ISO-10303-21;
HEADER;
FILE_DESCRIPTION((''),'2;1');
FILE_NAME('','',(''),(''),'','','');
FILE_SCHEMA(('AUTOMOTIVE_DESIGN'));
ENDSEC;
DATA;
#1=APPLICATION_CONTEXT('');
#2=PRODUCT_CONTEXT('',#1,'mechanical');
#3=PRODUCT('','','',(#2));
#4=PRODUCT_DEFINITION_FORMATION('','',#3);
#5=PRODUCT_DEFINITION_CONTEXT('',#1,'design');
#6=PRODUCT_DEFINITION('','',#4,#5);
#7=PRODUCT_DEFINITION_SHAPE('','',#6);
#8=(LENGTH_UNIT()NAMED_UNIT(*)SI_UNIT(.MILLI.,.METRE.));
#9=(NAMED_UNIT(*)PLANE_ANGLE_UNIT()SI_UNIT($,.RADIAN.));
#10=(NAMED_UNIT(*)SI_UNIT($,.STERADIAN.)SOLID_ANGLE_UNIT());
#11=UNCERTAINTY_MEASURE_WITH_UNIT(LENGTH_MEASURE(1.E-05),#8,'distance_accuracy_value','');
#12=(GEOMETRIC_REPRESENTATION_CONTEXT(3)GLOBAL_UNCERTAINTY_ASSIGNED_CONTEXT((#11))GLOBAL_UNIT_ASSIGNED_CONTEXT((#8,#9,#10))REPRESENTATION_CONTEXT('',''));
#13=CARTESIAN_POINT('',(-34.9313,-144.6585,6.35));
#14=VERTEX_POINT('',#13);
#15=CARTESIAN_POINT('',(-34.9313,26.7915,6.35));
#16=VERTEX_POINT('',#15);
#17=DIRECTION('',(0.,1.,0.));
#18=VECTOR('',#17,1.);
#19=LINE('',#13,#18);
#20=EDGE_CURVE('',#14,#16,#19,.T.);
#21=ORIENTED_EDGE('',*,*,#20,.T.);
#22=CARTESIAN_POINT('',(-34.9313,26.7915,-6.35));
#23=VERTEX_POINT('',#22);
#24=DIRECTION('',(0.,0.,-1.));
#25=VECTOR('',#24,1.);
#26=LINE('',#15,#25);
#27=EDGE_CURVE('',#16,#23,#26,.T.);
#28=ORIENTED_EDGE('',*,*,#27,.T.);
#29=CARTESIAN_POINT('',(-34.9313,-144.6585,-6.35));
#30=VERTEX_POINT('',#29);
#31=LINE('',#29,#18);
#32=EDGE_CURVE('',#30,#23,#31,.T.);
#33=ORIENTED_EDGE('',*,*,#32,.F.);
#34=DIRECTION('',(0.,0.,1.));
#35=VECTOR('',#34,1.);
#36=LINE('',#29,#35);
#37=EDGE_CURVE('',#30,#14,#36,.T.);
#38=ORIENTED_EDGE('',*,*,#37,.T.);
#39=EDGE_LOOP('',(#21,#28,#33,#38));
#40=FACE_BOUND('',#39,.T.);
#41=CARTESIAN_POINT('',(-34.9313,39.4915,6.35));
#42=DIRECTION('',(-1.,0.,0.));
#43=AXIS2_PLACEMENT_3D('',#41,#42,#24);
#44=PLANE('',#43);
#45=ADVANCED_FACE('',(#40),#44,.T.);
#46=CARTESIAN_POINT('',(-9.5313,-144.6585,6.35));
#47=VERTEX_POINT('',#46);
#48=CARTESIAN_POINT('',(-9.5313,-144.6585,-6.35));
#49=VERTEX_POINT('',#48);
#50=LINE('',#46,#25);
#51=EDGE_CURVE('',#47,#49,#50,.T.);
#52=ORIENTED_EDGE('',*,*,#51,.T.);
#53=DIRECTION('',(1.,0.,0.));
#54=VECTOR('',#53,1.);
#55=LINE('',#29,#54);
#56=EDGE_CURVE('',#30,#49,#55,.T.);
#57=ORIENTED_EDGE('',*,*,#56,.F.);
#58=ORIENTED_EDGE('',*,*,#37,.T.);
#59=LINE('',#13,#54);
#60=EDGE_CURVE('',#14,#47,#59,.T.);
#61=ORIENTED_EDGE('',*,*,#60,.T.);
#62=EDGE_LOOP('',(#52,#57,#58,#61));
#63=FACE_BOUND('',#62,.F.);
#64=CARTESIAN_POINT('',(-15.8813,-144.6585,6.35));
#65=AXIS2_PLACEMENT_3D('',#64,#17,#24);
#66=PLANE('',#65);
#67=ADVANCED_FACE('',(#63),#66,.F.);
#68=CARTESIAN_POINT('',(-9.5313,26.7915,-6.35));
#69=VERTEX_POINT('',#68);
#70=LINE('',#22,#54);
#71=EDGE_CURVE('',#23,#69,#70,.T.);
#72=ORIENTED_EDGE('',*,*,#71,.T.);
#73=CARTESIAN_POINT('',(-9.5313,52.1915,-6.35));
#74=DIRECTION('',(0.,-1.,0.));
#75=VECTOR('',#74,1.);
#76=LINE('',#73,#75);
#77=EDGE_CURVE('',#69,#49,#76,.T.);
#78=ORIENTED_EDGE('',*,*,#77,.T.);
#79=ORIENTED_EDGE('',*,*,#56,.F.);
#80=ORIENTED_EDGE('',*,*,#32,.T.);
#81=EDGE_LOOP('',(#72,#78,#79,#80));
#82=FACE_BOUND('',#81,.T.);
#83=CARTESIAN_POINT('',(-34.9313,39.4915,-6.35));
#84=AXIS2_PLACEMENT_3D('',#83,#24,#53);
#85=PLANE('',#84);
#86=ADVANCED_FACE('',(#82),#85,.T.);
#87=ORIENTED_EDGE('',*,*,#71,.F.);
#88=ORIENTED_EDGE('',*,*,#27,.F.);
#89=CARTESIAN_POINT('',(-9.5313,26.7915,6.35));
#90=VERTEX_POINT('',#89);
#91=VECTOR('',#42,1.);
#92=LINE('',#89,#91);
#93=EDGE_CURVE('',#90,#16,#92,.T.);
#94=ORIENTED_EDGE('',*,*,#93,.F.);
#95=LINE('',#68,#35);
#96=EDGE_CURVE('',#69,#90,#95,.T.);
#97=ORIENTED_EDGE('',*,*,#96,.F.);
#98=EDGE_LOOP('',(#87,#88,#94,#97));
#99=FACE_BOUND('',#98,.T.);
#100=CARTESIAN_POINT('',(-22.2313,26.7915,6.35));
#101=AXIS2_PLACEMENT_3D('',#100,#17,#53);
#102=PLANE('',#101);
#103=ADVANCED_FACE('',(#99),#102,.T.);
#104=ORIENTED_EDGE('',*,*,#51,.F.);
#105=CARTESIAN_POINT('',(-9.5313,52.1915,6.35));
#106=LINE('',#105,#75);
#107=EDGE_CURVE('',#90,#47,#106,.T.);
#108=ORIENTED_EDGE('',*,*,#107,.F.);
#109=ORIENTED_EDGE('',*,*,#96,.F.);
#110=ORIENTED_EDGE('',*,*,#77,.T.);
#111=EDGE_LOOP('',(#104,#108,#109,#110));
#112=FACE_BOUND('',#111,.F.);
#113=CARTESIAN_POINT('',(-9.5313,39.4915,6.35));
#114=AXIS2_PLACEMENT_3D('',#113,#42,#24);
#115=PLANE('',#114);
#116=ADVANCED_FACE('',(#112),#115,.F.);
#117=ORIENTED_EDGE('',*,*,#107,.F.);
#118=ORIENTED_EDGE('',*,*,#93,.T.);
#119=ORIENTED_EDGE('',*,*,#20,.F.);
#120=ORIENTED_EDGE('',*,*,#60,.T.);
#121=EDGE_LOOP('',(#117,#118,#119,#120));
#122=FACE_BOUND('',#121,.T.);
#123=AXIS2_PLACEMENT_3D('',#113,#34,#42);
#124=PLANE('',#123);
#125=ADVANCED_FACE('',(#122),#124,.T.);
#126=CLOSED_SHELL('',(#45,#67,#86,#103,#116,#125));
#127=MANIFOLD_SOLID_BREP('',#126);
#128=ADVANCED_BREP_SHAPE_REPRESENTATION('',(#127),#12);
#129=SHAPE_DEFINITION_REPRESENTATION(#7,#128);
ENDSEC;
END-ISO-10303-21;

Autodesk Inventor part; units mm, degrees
ref_plane "YZ Plane" through (0, 0, 0) normal (1, 0, 0) x (0, 1, 0)
ref_plane "XZ Plane" through (0, 0, 0) normal (0, 1, 0) x (-1, 0, 0)
ref_plane "XY Plane" through (0, 0, 0) normal (0, 0, 1) x (1, 0, 0)
sketch "Sketch1" plane through (0, 0, 0) normal (0, 0, 1) x (1, 0, 0)
  line L0 (-22.2313, 26.7915) -> (109.8487, 26.7915)
  line L1 (109.8487, 26.7915) -> (109.8487, -144.6585)
  line L2 (109.8487, -144.6585) -> (-22.2313, -144.6585)
  line L3 (-22.2313, -144.6585) -> (-22.2313, 26.7915)
  line L4 (-22.2313, 26.7915) -> (-28.5813, 26.7915)
  line L5 (-28.5813, 26.7915) -> (-28.5813, 39.4915)
  line L6 (-28.5813, 39.4915) -> (116.1987, 39.4915)
  line L7 (116.1987, 39.4915) -> (116.1987, 26.7915)
  line L8 (116.1987, 26.7915) -> (128.8987, 26.7915)
  line L9 (128.8987, 26.7915) -> (128.8987, 14.0915)
  line L10 (128.8987, 14.0915) -> (116.1987, 14.0915)
  line L11 (116.1987, 14.0915) -> (116.1987, -131.9585)
  line L12 (116.1987, -131.9585) -> (128.8987, -131.9585)
  line L13 (128.8987, -131.9585) -> (128.8987, -144.6585)
  line L14 (128.8987, -144.6585) -> (116.1987, -144.6585)
  line L15 (116.1987, -144.6585) -> (116.1987, -154.1835)
  line L16 (116.1987, -154.1835) -> (-28.5813, -154.1835)
  line L17 (-28.5813, -154.1835) -> (-28.5813, -144.6585)
  line L18 (-28.5813, -144.6585) -> (-41.2813, -144.6585)
  line L19 (-41.2813, -144.6585) -> (-41.2813, -131.9585)
  line L20 (-41.2813, -131.9585) -> (-28.5813, -131.9585)
  line L21 (-28.5813, -131.9585) -> (-28.5813, 14.0915)
  line L22 (-28.5813, 14.0915) -> (-41.2813, 14.0915)
  line L23 (-41.2813, 14.0915) -> (-41.2813, 26.7915)
  line L24 (-41.2813, 26.7915) -> (-28.5813, 26.7915)
  line L25 (-22.2313, -144.6585) -> (-22.2313, -151.0085)
  line L26 (-22.2313, -151.0085) -> (15.8687, -151.0085)
  line L27 (15.8687, -151.0085) -> (15.8687, -144.6585)
  line L28 (15.8687, -144.6585) -> (22.2187, -144.6585)
  line L29 (22.2187, -144.6585) -> (22.2187, -151.0085)
  line L30 (109.8487, -144.6585) -> (109.8487, -151.0085)
  line L31 (109.8487, -151.0085) -> (71.7487, -151.0085)
  line L32 (71.7487, -151.0085) -> (71.7487, -144.6585)
  line L33 (71.7487, -144.6585) -> (65.3987, -144.6585)
  line L34 (65.3987, -144.6585) -> (65.3987, -151.0085)
  line L35 (65.3987, -151.0085) -> (22.2187, -151.0085)
  line L36 (-22.2313, 26.7915) -> (-22.2313, 33.1415)
  line L37 (-22.2313, 33.1415) -> (15.8687, 33.1415)
  line L38 (15.8687, 33.1415) -> (15.8687, 26.7915)
  line L39 (22.2187, 26.7915) -> (22.2187, 33.1415)
  line L40 (22.2187, 33.1415) -> (65.3987, 33.1415)
  line L41 (65.3987, 33.1415) -> (65.3987, 26.7915)
  line L42 (71.7487, 26.7915) -> (71.7487, 33.1415)
  line L43 (71.7487, 33.1415) -> (109.8487, 33.1415)
  line L44 (109.8487, 33.1415) -> (109.8487, 26.7915)
  circle A0 centre (-34.9313, 20.4415) radius 1.9812
  circle A1 centre (122.5487, 20.4415) radius 1.9812
  circle A2 centre (122.5487, -138.3085) radius 1.9812
  circle A3 centre (-34.9313, -138.3085) radius 1.9812
  point P0 (0, 0)
  dimension "d0" = 132.08
  dimension "d1" = 171.45
  dimension "d2" = 6.35
  dimension "d3" = 12.7
  dimension "d4" = 144.78
  dimension "d5" = 12.7
  dimension "d6" = 12.7
  dimension "d7" = 146.05
  dimension "d8" = 9.525
  dimension "d9" = 12.7
  dimension "d10" = 6.35
  dimension "d11" = 38.1
  dimension "d12" = 6.35
  dimension "d13" = 38.1
  dimension "d14" = 6.35
  dimension "d15" = 3.9624
  dimension "d16" = 3.9624
extrude "Extrusion1" add sketch "Sketch1" along normal blind 6.35
sketch "Sketch2" plane through (-28.5813, -154.1835, 0) normal (0, -1, 0) x (1, 0, 0)
  line L0 (144.78, 6.35) -> (0, 6.35) projected
  line L1 (0, 0) -> (0, 6.35) projected
  line L2 (0, 0) -> (144.78, 0) projected
  line L3 (144.78, 0) -> (144.78, 6.35) projected
  point P0 (28.5813, 0)
extrude "Extrusion2" add sketch "Sketch2" along normal blind 3.175
sketch "Sketch3" plane through (0, 0, 6.35) normal (0, 0, 1) x (1, 0, 0)
  line L0 (-28.5813, 14.0915) -> (-41.2813, 14.0915) projected
  line L1 (-28.5813, -131.9585) -> (-28.5813, 14.0915) projected
  line L2 (-41.2813, -131.9585) -> (-28.5813, -131.9585) projected
  line L3 (116.1987, -131.9585) -> (128.8987, -131.9585) projected
  line L4 (116.1987, 14.0915) -> (116.1987, -131.9585) projected
  line L5 (128.8987, 14.0915) -> (116.1987, 14.0915) projected
  line L6 (71.7487, 33.1415) -> (109.8487, 33.1415) projected
  line L7 (-41.2813, 14.0915) -> (-41.2813, -131.9585)
  line L8 (128.8987, 14.0915) -> (128.8987, -131.9585)
  point P0 (0, 0)
extrude "Extrusion3" add sketch "Sketch3" against normal blind 6.35
sketch "Sketch4" plane through (0, 0, 6.35) normal (0, 0, 1) x (1, 0, 0)
  line L0 (-28.5813, -157.3585) -> (-28.5813, -144.6585) projected
  line L1 (-28.5813, -157.3585) -> (116.1987, -157.3585) projected
  line L2 (116.1987, -144.6585) -> (116.1987, -157.3585) projected
  line L3 (109.8487, 33.1415) -> (109.8487, -151.0085) projected
  line L4 (-22.2313, -151.0085) -> (-22.2313, 33.1415) projected
  line L5 (15.8687, 26.7915) -> (22.2187, 26.7915) projected
  line L6 (71.7487, 33.1415) -> (109.8487, 33.1415) projected
  line L7 (15.8687, 26.7915) -> (-22.2313, 26.7915)
  line L8 (22.2187, 26.7915) -> (109.8487, 26.7915)
  line L9 (109.8487, 26.7915) -> (109.8487, 20.4415)
  line L10 (109.8487, 20.4415) -> (-22.2313, 20.4415)
  line L11 (-22.2313, 20.4415) -> (-22.2313, 26.7915)
  line L12 (-22.2313, -144.6585) -> (-22.2313, -138.3085)
  line L13 (-22.2313, -138.3085) -> (109.8487, -138.3085)
  line L14 (109.8487, -144.6585) -> (-22.2313, -144.6585)
  line L15 (-28.5813, -151.0085) -> (-41.2813, -151.0085)
  line L16 (-41.2813, -151.0085) -> (-41.2813, -157.3585)
  line L17 (-41.2813, -157.3585) -> (-28.5813, -157.3585)
  line L18 (116.1987, -151.0085) -> (128.8987, -151.0085)
  line L19 (128.8987, -151.0085) -> (128.8987, -157.3585)
  line L20 (128.8987, -157.3585) -> (116.1987, -157.3585)
  point P0 (0, 0)
extrude "Extrusion4" add sketch "Sketch4" against normal blind 6.35 contours L17 L16 L15 L0 | L2 L18 L19 L20 | L3 L10 L4 L7 L5 L8 | L3 L14 L4 L13
sketch "Sketch5" plane through (0, 0, 6.35) normal (0, 0, 1) x (1, 0, 0)
  line L0 (-28.5813, 26.7915) -> (-28.5813, 39.4915) projected
  line L1 (116.1987, 39.4915) -> (116.1987, 26.7915) projected
  line L2 (15.8687, 33.1415) -> (15.8687, 26.7915) projected
  line L3 (-28.5813, 39.4915) -> (-41.2813, 39.4915)
  line L4 (-41.2813, 39.4915) -> (-41.2813, 33.1415)
  line L5 (-41.2813, 33.1415) -> (-28.5813, 33.1415)
  line L6 (116.1987, 39.4915) -> (128.8987, 39.4915)
  line L7 (128.8987, 39.4915) -> (128.8987, 33.1415)
  line L8 (128.8987, 33.1415) -> (116.1987, 33.1415)
  point P0 (0, 0)
extrude "Extrusion5" add sketch "Sketch5" against normal blind 6.35
sketch "Sketch6" plane through (0, 0, 6.35) normal (0, 0, 1) x (1, 0, 0)
  line L0 (65.3987, -151.0085) -> (22.2187, -151.0085) projected
  line L1 (22.2187, -144.6585) -> (65.3987, -144.6585) projected
  line L2 (-22.2313, -144.6585) -> (15.8687, -144.6585) projected
  line L3 (109.8487, -151.0085) -> (71.7487, -151.0085) projected
  line L4 (65.3987, 26.7915) -> (22.2187, 26.7915) projected
  line L5 (109.8487, 26.7915) -> (71.7487, 26.7915) projected
  line L6 (-41.2813, 26.7915) -> (-28.5813, 26.7915) projected
  line L7 (-28.5813, -151.0085) -> (-41.2813, -151.0085) projected
  line L8 (128.8987, -151.0085) -> (116.1987, -151.0085) projected
  line L9 (116.1987, 26.7915) -> (128.8987, 26.7915) projected
  line L10 (-28.5813, 33.1415) -> (-34.9313, 33.1415)
  line L11 (-34.9313, 33.1415) -> (-34.9313, 26.7915)
  line L12 (-34.9313, 26.7915) -> (-28.5813, 26.7915)
  line L13 (-28.5813, 26.7915) -> (-28.5813, 33.1415)
  line L14 (15.8687, 33.1415) -> (10.0792, 33.1415)
  line L15 (10.0792, 33.1415) -> (10.0792, 26.7915)
  line L16 (10.0792, 26.7915) -> (15.8687, 26.7915)
  line L17 (15.8687, 26.7915) -> (15.8687, 33.1415)
  line L18 (22.2187, 33.1415) -> (28.5687, 33.1415)
  line L19 (28.5687, 33.1415) -> (28.5687, 26.7915)
  line L20 (28.5687, 26.7915) -> (22.2187, 26.7915)
  line L21 (22.2187, 26.7915) -> (22.2187, 33.1415)
  line L22 (65.3987, 33.1415) -> (59.0487, 33.1415)
  line L23 (59.0487, 33.1415) -> (59.0487, 26.7915)
  line L24 (59.0487, 26.7915) -> (65.3987, 26.7915)
  line L25 (65.3987, 26.7915) -> (65.3987, 33.1415)
  line L26 (71.7487, 33.1415) -> (78.0987, 33.1415)
  line L27 (78.0987, 33.1415) -> (78.0987, 26.7915)
  line L28 (78.0987, 26.7915) -> (71.7487, 26.7915)
  line L29 (71.7487, 26.7915) -> (71.7487, 33.1415)
  line L30 (116.1987, 33.1415) -> (122.5487, 33.1415)
  line L31 (122.5487, 33.1415) -> (122.5487, 26.7915)
  line L32 (122.5487, 26.7915) -> (116.1987, 26.7915)
  line L33 (116.1987, 26.7915) -> (116.1987, 33.1415)
  line L34 (-28.5813, -144.6585) -> (-34.9313, -144.6585)
  line L35 (-34.9313, -144.6585) -> (-34.9313, -151.0085)
  line L36 (-34.9313, -151.0085) -> (-28.5813, -151.0085)
  line L37 (-28.5813, -151.0085) -> (-28.5813, -144.6585)
  line L38 (10.0792, -144.6585) -> (28.5687, -144.6585)
  line L39 (28.5687, -144.6585) -> (28.5687, -151.0085)
  line L40 (28.5687, -151.0085) -> (10.0792, -151.0085)
  line L41 (10.0792, -151.0085) -> (10.0792, -144.6585)
  line L42 (59.0487, -144.6585) -> (78.0987, -144.6585)
  line L43 (78.0987, -144.6585) -> (78.0987, -151.0085)
  line L44 (78.0987, -151.0085) -> (59.0487, -151.0085)
  line L45 (59.0487, -151.0085) -> (59.0487, -144.6585)
  line L46 (116.1987, -144.6585) -> (122.5487, -144.6585)
  line L47 (122.5487, -144.6585) -> (122.5487, -151.0085)
  line L48 (122.5487, -151.0085) -> (116.1987, -151.0085)
  line L49 (116.1987, -151.0085) -> (116.1987, -144.6585)
  point P0 (0, 0)
  dimension "d27" = 6.35
  dimension "d28" = 6.35
  dimension "d29" = 6.35
  dimension "d30" = 6.35
  dimension "d31" = 6.35
extrude "Extrusion6" add sketch "Sketch6" against normal blind 6.35 contours L0 L45 L1 L42 L43 L3 L44 | L0 L40 L41 L2 L38 L1 L39 | L4 L21 L18 L19 | L4 L23 L22 L25 | L5 L29 L26 L27 | L11 L10 L13 L6 | L7 L35 L34 L37 | L8 L49 L46 L47 | L33 L30 L31 L9 | L17 L16 L15 L14
sketch "Sketch7" plane through (0, 0, 0) normal (0, 0, -1) x (-1, 0, 0)
  line L0 (-128.8987, 39.4915) -> (-90.7987, 39.4915)
  line L1 (-90.7987, 39.4915) -> (-90.7987, 115.6915)
  line L2 (-90.7987, 115.6915) -> (-128.8987, 115.6915)
  line L3 (-128.8987, 115.6915) -> (-128.8987, 39.4915)
  line L4 (-90.7987, 39.4915) -> (41.2813, 39.4915)
  line L5 (41.2813, 39.4915) -> (41.2813, 64.8915)
  line L6 (41.2813, 64.8915) -> (-90.7987, 64.8915)
  line L7 (-90.7987, 64.8915) -> (-90.7987, 39.4915)
  point P0 (0, 0)
  dimension "d34" = 38.1
  dimension "d35" = 76.2
  dimension "d36" = 25.4
extrude "Extrusion7" add sketch "Sketch7" against normal blind 6.35
sketch "Sketch8" plane through (0, 0, 0) normal (0, 0, -1) x (-1, 0, 0)
  line L0 (41.2813, 64.8915) -> (210.1913, 64.8915)
  line L1 (210.1913, 64.8915) -> (210.1913, 39.4915)
  line L2 (210.1913, 39.4915) -> (41.2813, 39.4915)
  line L3 (41.2813, 39.4915) -> (41.2813, 64.8915)
  line L4 (210.1913, 64.8915) -> (172.0913, 64.8915)
  line L5 (172.0913, 64.8915) -> (172.0913, 115.6915)
  line L6 (172.0913, 115.6915) -> (210.1913, 115.6915)
  line L7 (210.1913, 115.6915) -> (210.1913, 64.8915)
  point P0 (0, 0)
  dimension "d39" = 168.91
  dimension "d40" = 25.4
  dimension "d41" = 38.1
extrude "Extrusion8" add sketch "Sketch8" against normal blind 6.35
sketch "Sketch9" plane through (0, 0, 0) normal (0, 0, -1) x (-1, 0, 0)
  line L0 (-109.8487, 26.7915) -> (-109.8487, 33.1415) projected
  line L1 (-109.8487, 33.1415) -> (-78.0987, 33.1415) projected
  line L2 (-78.0987, 26.7915) -> (-78.0987, 33.1415) projected
  line L3 (-109.8487, 26.7915) -> (-78.0987, 26.7915) projected
  line L4 (-10.0792, 33.1415) -> (-10.0792, 26.7915) projected
  line L5 (-10.0792, 33.1415) -> (22.2313, 33.1415) projected
  line L6 (22.2313, 33.1415) -> (22.2313, 26.7915) projected
  line L7 (-10.0792, 26.7915) -> (22.2313, 26.7915) projected
  line L8 (-59.0487, 33.1415) -> (-28.5687, 33.1415) projected
  line L9 (-28.5687, 26.7915) -> (-28.5687, 33.1415) projected
  line L10 (-59.0487, 26.7915) -> (-28.5687, 26.7915) projected
  line L11 (-59.0487, 33.1415) -> (-59.0487, 26.7915) projected
  line L12 (-128.8987, 115.6915) -> (-128.8987, 33.1415) projected
  line L13 (-128.8987, 49.764) -> (41.2813, 49.764)
  line L14 (41.2813, 49.764) -> (41.2813, 26.7915)
  line L15 (41.2813, 26.7915) -> (-128.8987, 26.7915)
  line L16 (-128.8987, 26.7915) -> (-128.8987, 49.764)
  point P0 (0, 0)
extrude "Extrusion9" add sketch "Sketch9" against normal blind 6.35
sketch "Sketch10" plane through (0, 0, 0) normal (0, 0, -1) x (-1, 0, 0)
  line L0 (41.2813, 39.4915) -> (210.1913, 39.4915)
  line L1 (210.1913, 39.4915) -> (210.1913, 20.4415)
  line L2 (210.1913, 20.4415) -> (41.2813, 20.4415)
  line L3 (41.2813, 20.4415) -> (41.2813, 39.4915)
  point P0 (0, 0)
extrude "Extrusion10" add sketch "Sketch10" against normal blind 6.35
sketch "Sketch11" plane through (0, 0, 0) normal (0, 0, -1) x (-1, 0, 0)
  line L0 (-128.8987, 115.6915) -> (-90.7987, 115.6915)
  line L1 (-90.7987, 115.6915) -> (-90.7987, 141.0915)
  line L2 (-90.7987, 141.0915) -> (-128.8987, 141.0915)
  line L3 (-128.8987, 141.0915) -> (-128.8987, 115.6915)
  line L4 (172.0913, 115.6915) -> (210.1913, 115.6915)
  line L5 (210.1913, 115.6915) -> (210.1913, 141.0915)
  line L6 (210.1913, 141.0915) -> (172.0913, 141.0915)
  line L7 (172.0913, 141.0915) -> (172.0913, 115.6915)
  point P0 (0, 0)
  dimension "d48" = 25.4
extrude "Extrusion11" add sketch "Sketch11" against normal blind 6.35
sketch "Sketch12" plane through (0, 0, 0) normal (0, 0, -1) x (-1, 0, 0)
  line L0 (210.1913, 20.4415) -> (172.0913, 20.4415)
  line L1 (172.0913, 20.4415) -> (172.0913, 26.7915)
  line L2 (172.0913, 26.7915) -> (210.1913, 26.7915)
  line L3 (210.1913, 26.7915) -> (210.1913, 20.4415)
  line L4 (172.0913, 26.7915) -> (146.6913, 26.7915)
  line L5 (146.6913, 26.7915) -> (146.6913, 33.1415)
  line L6 (146.6913, 33.1415) -> (172.0913, 33.1415)
  line L7 (172.0913, 33.1415) -> (172.0913, 26.7915)
  line L8 (146.6913, 33.1415) -> (172.0913, 33.1415)
  line L9 (172.0913, 33.1415) -> (172.0913, 39.4915)
  line L10 (172.0913, 39.4915) -> (146.6913, 39.4915)
  line L11 (146.6913, 39.4915) -> (146.6913, 33.1415)
  line L12 (146.6913, 39.4915) -> (95.8913, 39.4915)
  line L13 (95.8913, 39.4915) -> (95.8913, 33.1415)
  line L14 (95.8913, 33.1415) -> (146.6913, 33.1415)
  line L15 (146.6913, 33.1415) -> (146.6913, 39.4915)
  line L16 (95.8913, 39.4915) -> (70.4913, 39.4915)
  line L17 (70.4913, 39.4915) -> (70.4913, 33.1415)
  line L18 (70.4913, 33.1415) -> (95.8913, 33.1415)
  line L19 (95.8913, 33.1415) -> (95.8913, 39.4915)
  line L20 (146.6913, 33.1415) -> (133.9913, 33.1415)
  line L21 (133.9913, 33.1415) -> (133.9913, 26.7915)
  line L22 (133.9913, 26.7915) -> (146.6913, 26.7915)
  line L23 (146.6913, 26.7915) -> (146.6913, 33.1415)
  line L24 (133.9913, 33.1415) -> (108.5913, 33.1415)
  line L25 (108.5913, 33.1415) -> (108.5913, 26.7915)
  line L26 (108.5913, 26.7915) -> (133.9913, 26.7915)
  line L27 (133.9913, 26.7915) -> (133.9913, 33.1415)
  line L28 (70.4913, 33.1415) -> (57.7913, 33.1415)
  line L29 (57.7913, 33.1415) -> (57.7913, 26.7915)
  line L30 (57.7913, 26.7915) -> (70.4913, 26.7915)
  line L31 (70.4913, 26.7915) -> (70.4913, 33.1415)
  line L32 (57.7913, 26.7915) -> (32.3913, 26.7915)
  line L33 (32.3913, 26.7915) -> (32.3913, 33.1415)
  line L34 (32.3913, 33.1415) -> (57.7913, 33.1415)
  line L35 (57.7913, 33.1415) -> (57.7913, 26.7915)
  line L36 (32.3913, 33.1415) -> (19.6913, 33.1415)
  line L37 (19.6913, 33.1415) -> (19.6913, 26.7915)
  line L38 (19.6913, 26.7915) -> (32.3913, 26.7915)
  line L39 (32.3913, 26.7915) -> (32.3913, 33.1415)
  line L40 (19.6913, 33.1415) -> (-5.7087, 33.1415)
  line L41 (-5.7087, 33.1415) -> (-5.7087, 39.4915)
  line L42 (-5.7087, 39.4915) -> (19.6913, 39.4915)
  line L43 (19.6913, 39.4915) -> (19.6913, 33.1415)
  line L44 (-5.7087, 33.1415) -> (-18.4087, 33.1415)
  line L45 (-18.4087, 33.1415) -> (-18.4087, 26.7915)
  line L46 (-18.4087, 26.7915) -> (-5.7087, 26.7915)
  line L47 (-5.7087, 26.7915) -> (-5.7087, 33.1415)
  line L48 (-18.4087, 33.1415) -> (-43.8087, 33.1415)
  line L49 (-43.8087, 33.1415) -> (-43.8087, 26.7915)
  line L50 (-43.8087, 26.7915) -> (-18.4087, 26.7915)
  line L51 (-18.4087, 26.7915) -> (-18.4087, 33.1415)
  line L52 (-43.8087, 33.1415) -> (-56.5087, 33.1415)
  line L53 (-56.5087, 33.1415) -> (-56.5087, 26.7915)
  line L54 (-56.5087, 26.7915) -> (-43.8087, 26.7915)
  line L55 (-43.8087, 26.7915) -> (-43.8087, 33.1415)
  line L56 (-56.5087, 33.1415) -> (-81.9087, 33.1415)
  line L57 (-81.9087, 33.1415) -> (-81.9087, 38.8107)
  line L58 (-81.9087, 38.8107) -> (-56.5087, 38.8107)
  line L59 (-56.5087, 38.8107) -> (-56.5087, 33.1415)
  line L60 (-81.9087, 33.1415) -> (-94.6087, 33.1415)
  line L61 (-94.6087, 33.1415) -> (-94.6087, 26.7915)
  line L62 (-94.6087, 26.7915) -> (-81.9087, 26.7915)
  line L63 (-81.9087, 26.7915) -> (-81.9087, 33.1415)
  line L64 (-94.6087, 26.7915) -> (-120.0087, 26.7915)
  line L65 (-120.0087, 26.7915) -> (-120.0087, 33.1415)
  line L66 (-120.0087, 33.1415) -> (-94.6087, 33.1415)
  line L67 (-94.6087, 33.1415) -> (-94.6087, 26.7915)
  point P0 (0, 0)
  dimension "d51" = 6.35
  dimension "d52" = 25.4
  dimension "d53" = 6.35
  dimension "d54" = 25.4
  dimension "d55" = 6.35
  dimension "d56" = 50.8
  dimension "d57" = 25.4
  dimension "d58" = 12.7
  dimension "d59" = 25.4
  dimension "d60" = 12.7
  dimension "d61" = 25.4
  dimension "d62" = 12.7
  dimension "d63" = 25.4
  dimension "d64" = 12.7
  dimension "d65" = 25.4
  dimension "d66" = 12.7
  dimension "d67" = 25.4
  dimension "d68" = 12.7
  dimension "d69" = 25.4
extrude "Extrusion12" cut sketch "Sketch12" against normal blind 6.35 contours L56 L57 L58 L59 | L40 L41 L42 L43 | L6 L11 L10 L9 | L26 L25 L14 L21 | L13 L18 L17 L16 | L29 L32 L33 L34 | L45 L50 L49 L48 | L61 L64 L65 L66
sketch "Sketch13" plane through (0, 0, 0) normal (0, 0, -1) x (-1, 0, 0)
  line L0 (210.1913, 20.4415) -> (210.1913, 141.0915) projected
  line L1 (210.1913, 20.4415) -> (203.8413, 20.4415)
  line L2 (203.8413, 20.4415) -> (203.8413, 64.8915)
  line L3 (203.8413, 64.8915) -> (210.1913, 64.8915)
  line L4 (210.1913, 64.8915) -> (210.1913, 20.4415)
  line L5 (203.8413, 64.8915) -> (210.1913, 64.8915)
  line L6 (210.1913, 64.8915) -> (210.1913, 90.2915)
  line L7 (210.1913, 90.2915) -> (203.8413, 90.2915)
  line L8 (203.8413, 90.2915) -> (203.8413, 64.8915)
  line L9 (203.8413, 90.2915) -> (210.1913, 90.2915)
  line L10 (210.1913, 90.2915) -> (210.1913, 115.6915)
  line L11 (210.1913, 115.6915) -> (203.8413, 115.6915)
  line L12 (203.8413, 115.6915) -> (203.8413, 90.2915)
  point P0 (0, 0)
  dimension "d72" = 6.35
  dimension "d73" = 25.4
  dimension "d74" = 25.4
extrude "Extrusion13" cut sketch "Sketch13" against normal blind 6.35 contours L1 L2 L3 L0 | L7 L12 L11 L0
sketch "Sketch14" plane through (0, 0, 0) normal (0, 0, -1) x (-1, 0, 0)
  line L0 (-90.7987, 64.8915) -> (-90.7987, 141.0915) projected
  line L1 (-128.8987, -144.6585) -> (-128.8987, 141.0915) projected
  line L2 (-128.8987, 141.0915) -> (-90.7987, 141.0915)
  line L3 (-90.7987, 141.0915) -> (-90.7987, 115.6915)
  line L4 (-90.7987, 115.6915) -> (-128.8987, 115.6915)
  line L5 (-128.8987, 115.6915) -> (-128.8987, 141.0915)
  line L6 (172.0913, 141.0915) -> (210.1913, 141.0915)
  line L7 (210.1913, 141.0915) -> (210.1913, 115.6915)
  line L8 (210.1913, 115.6915) -> (172.0913, 115.6915)
  line L9 (172.0913, 115.6915) -> (172.0913, 141.0915)
  line L10 (-128.8987, 90.2915) -> (-122.5487, 90.2915)
  line L11 (-122.5487, 90.2915) -> (-122.5487, 64.8915)
  line L12 (-122.5487, 64.8915) -> (-128.8987, 64.8915)
  line L13 (-128.8987, 64.8915) -> (-128.8987, 90.2915)
  point P0 (0, 0)
extrude "Extrusion14" cut sketch "Sketch14" against normal blind 6.35
sketch "Sketch15" plane through (0, 0, 0) normal (0, 0, -1) x (-1, 0, 0)
  line L0 (203.8413, 20.4415) -> (203.8413, 64.8915) projected
  line L1 (203.8413, 39.4915) -> (197.4913, 39.4915)
  line L2 (197.4913, 39.4915) -> (197.4913, 26.7915)
  line L3 (197.4913, 26.7915) -> (203.8413, 26.7915)
  line L4 (203.8413, 26.7915) -> (203.8413, 39.4915)
  point P0 (0, 0)
  dimension "d79" = 6.35
extrude "Extrusion15" cut sketch "Sketch15" against normal blind 6.35
sketch "Sketch16" plane through (0, 0, 0) normal (0, 0, -1) x (-1, 0, 0)
  line L0 (-128.8987, 90.2915) -> (-109.8487, 90.2915)
  line L1 (-109.8487, 90.2915) -> (-109.8487, 77.5915)
  line L2 (-109.8487, 77.5915) -> (-128.8987, 77.5915)
  line L3 (-128.8987, 77.5915) -> (-128.8987, 90.2915)
  line L4 (172.0913, 115.6915) -> (191.1413, 115.6915)
  line L5 (191.1413, 115.6915) -> (191.1413, 83.9415)
  line L6 (191.1413, 83.9415) -> (172.0913, 83.9415)
  line L7 (172.0913, 83.9415) -> (172.0913, 115.6915)
  circle A0 centre (-109.8487, 77.5915) radius 1.9812
  circle A1 centre (191.1413, 83.9415) radius 1.9812
  point P0 (0, 0)
  dimension "d82" = 19.05
  dimension "d83" = 3.9624
  dimension "d84" = 3.9624
extrude "Extrusion16" cut sketch "Sketch16" against normal blind 6.35 contours A0 L2 L1 | L1 L2 A0 | A1 L6 L5 | L5 L6 A1
sketch "Sketch17" plane through (0, 0, 0) normal (0, 0, -1) x (-1, 0, 0)
  line L0 (-122.5487, 90.2915) -> (-128.8987, 90.2915)
  line L1 (-128.8987, 90.2915) -> (-128.8987, 64.8915)
  line L2 (-128.8987, 64.8915) -> (-122.5487, 64.8915)
  line L3 (-122.5487, 64.8915) -> (-122.5487, 90.2915)
  point P0 (0, 0)
extrude "Extrusion17" add sketch "Sketch17" against normal blind 6.35
sketch "Sketch18" plane through (0, 0, 0) normal (0, 0, -1) x (-1, 0, 0)
  line L0 (-128.8987, -144.6585) -> (-128.8987, 115.6915) projected
  line L1 (-128.8987, 115.6915) -> (-122.5487, 115.6915)
  line L2 (-122.5487, 115.6915) -> (-122.5487, 90.2915)
  line L3 (-122.5487, 90.2915) -> (-128.8987, 90.2915)
  line L4 (-128.8987, 90.2915) -> (-128.8987, 115.6915)
  line L5 (-128.8987, 90.2915) -> (-122.5487, 90.2915)
  line L6 (-122.5487, 90.2915) -> (-122.5487, 64.8915)
  line L7 (-122.5487, 64.8915) -> (-128.8987, 64.8915)
  line L8 (-128.8987, 64.8915) -> (-128.8987, 90.2915)
  line L9 (-122.5487, 64.8915) -> (-128.8987, 64.8915)
  line L10 (-128.8987, 64.8915) -> (-128.8987, 39.4915)
  line L11 (-128.8987, 39.4915) -> (-122.5487, 39.4915)
  line L12 (-122.5487, 39.4915) -> (-122.5487, 64.8915)
  point P0 (0, 0)
  dimension "d89" = 25.4
  dimension "d90" = 25.4
  dimension "d91" = 25.4
extrude "Extrusion18" cut sketch "Sketch18" against normal blind 6.35 contours L0 L7 L12 L11 | L0 L1 L2 L3
sketch "Sketch19" plane through (0, 0, 0) normal (0, 0, -1) x (-1, 0, 0)
  line L0 (-122.5487, 90.2915) -> (-128.8987, 90.2915) projected
  line L1 (-128.8987, 64.8915) -> (-128.8987, 90.2915) projected
  line L2 (-128.8987, 64.8915) -> (-122.5487, 64.8915) projected
  line L3 (-122.5487, 64.8915) -> (-122.5487, 39.4915) projected
  line L4 (197.4913, 39.4915) -> (203.8413, 39.4915) projected
  line L5 (203.8413, 39.4915) -> (203.8413, 64.8915) projected
  line L6 (203.8413, 64.8915) -> (210.1913, 64.8915) projected
  line L7 (210.1913, 64.8915) -> (210.1913, 90.2915) projected
  line L8 (210.1913, 90.2915) -> (203.8413, 90.2915) projected
  line L9 (203.8413, 90.2915) -> (203.8413, 115.6915) projected
  line L10 (203.8413, 115.6915) -> (172.0913, 115.6915) projected
  line L11 (172.0913, 115.6915) -> (172.0913, 64.8915) projected
  line L12 (172.0913, 64.8915) -> (-90.7987, 64.8915) projected
  line L13 (-90.7987, 64.8915) -> (-90.7987, 115.6915) projected
  line L14 (-90.7987, 115.6915) -> (-122.5487, 115.6915) projected
  line L15 (-122.5487, 115.6915) -> (-122.5487, 90.2915) projected
  circle A0 centre (191.1413, 83.9415) radius 1.9812 projected
  circle A1 centre (-109.8487, 77.5915) radius 1.9812 projected
  line L16 (-81.9087, 38.8107) -> (-56.5087, 38.8107) projected
  line L17 (22.2313, 20.4415) -> (22.2313, -138.3085) projected
  line L18 (-122.5487, 39.4915) -> (197.4913, 39.4915)
  line L19 (-81.9087, 38.8107) -> (-81.9087, 39.4915)
  line L20 (-56.5087, 38.8107) -> (-56.5087, 39.4915)
  point P0 (0, 0)
extrude "Extrusion19" cut sketch "Sketch19" against normal blind 25.4
sketch "Sketch20" plane through (0, 0, 0) normal (0, 0, -1) x (-1, 0, 0)
  line L0 (32.3913, 33.1415) -> (57.7913, 33.1415) projected
  line L1 (57.7913, 33.1415) -> (57.7913, 26.7915) projected
  line L2 (57.7913, 26.7915) -> (32.3913, 26.7915) projected
  line L3 (32.3913, 26.7915) -> (32.3913, 33.1415) projected
  line L4 (-43.8087, 26.7915) -> (-43.8087, 33.1415) projected
  line L5 (-43.8087, 33.1415) -> (-18.4087, 33.1415) projected
  line L6 (-18.4087, 33.1415) -> (-18.4087, 26.7915) projected
  line L7 (-18.4087, 26.7915) -> (-43.8087, 26.7915) projected
  line L8 (108.5913, 26.7915) -> (108.5913, 33.1415) projected
  line L9 (108.5913, 33.1415) -> (133.9913, 33.1415) projected
  line L10 (133.9913, 33.1415) -> (133.9913, 26.7915) projected
  line L11 (133.9913, 26.7915) -> (108.5913, 26.7915) projected
  line L12 (-120.0087, 33.1415) -> (-94.6087, 33.1415) projected
  line L13 (-94.6087, 33.1415) -> (-94.6087, 26.7915) projected
  line L14 (-94.6087, 26.7915) -> (-120.0087, 26.7915) projected
  line L15 (-120.0087, 26.7915) -> (-120.0087, 33.1415) projected
  line L16 (-128.8987, 39.4915) -> (203.8413, 39.4915)
  line L17 (203.8413, 39.4915) -> (203.8413, 26.7915)
  line L18 (203.8413, 26.7915) -> (-128.8987, 26.7915)
  line L19 (-128.8987, 26.7915) -> (-128.8987, 39.4915)
  line L20 (203.8413, 26.7915) -> (41.2813, 26.7915)
  line L21 (41.2813, 26.7915) -> (41.2813, 20.4415)
  line L22 (41.2813, 20.4415) -> (203.8413, 20.4415)
  line L23 (203.8413, 20.4415) -> (203.8413, 26.7915)
  point P0 (0, 0)
extrude "Extrusion20" cut sketch "Sketch20" against normal blind 25.4 contours L3 L18 L6 L5 L4 L13 L12 L15 L19 L16 L17 L10 L9 L8 L1 L0 | L0 L1 L2 L3 | L18 L11 L23 L22 L21 L2 | L7 L4 L5 L6 | L14 L15 L12 L13
sketch "Sketch21" plane through (0, 0, 6.35) normal (0, 0, 1) x (1, 0, 0)
  line L0 (128.8987, -157.3585) -> (128.8987, -151.0085) projected
  line L1 (128.8987, -151.0085) -> (122.5487, -151.0085) projected
  line L2 (122.5487, -151.0085) -> (122.5487, -144.6585) projected
  line L3 (128.8987, -144.6585) -> (122.5487, -144.6585) projected
  line L4 (128.8987, 26.7915) -> (128.8987, -144.6585) projected
  line L5 (128.8987, 26.7915) -> (-41.2813, 26.7915) projected
  line L6 (-22.2313, -138.3085) -> (-22.2313, 20.4415) projected
  line L7 (-22.2313, 20.4415) -> (109.8487, 20.4415) projected
  line L8 (109.8487, 20.4415) -> (109.8487, -138.3085) projected
  line L9 (109.8487, -138.3085) -> (-22.2313, -138.3085) projected
  line L10 (78.0987, -144.6585) -> (109.8487, -144.6585) projected
  line L11 (109.8487, -144.6585) -> (109.8487, -151.0085) projected
  line L12 (109.8487, -151.0085) -> (78.0987, -151.0085) projected
  line L13 (78.0987, -151.0085) -> (78.0987, -144.6585) projected
  circle A0 centre (122.5487, -138.3085) radius 1.9812 projected
  circle A1 centre (122.5487, 20.4415) radius 1.9812 projected
  line L14 (10.0792, -151.0085) -> (-22.2313, -151.0085) projected
  line L15 (-22.2313, -151.0085) -> (-22.2313, -144.6585) projected
  line L16 (-22.2313, -144.6585) -> (10.0792, -144.6585) projected
  line L17 (10.0792, -144.6585) -> (10.0792, -151.0085) projected
  line L18 (28.5687, -144.6585) -> (59.0487, -144.6585) projected
  line L19 (59.0487, -144.6585) -> (59.0487, -151.0085) projected
  line L20 (59.0487, -151.0085) -> (28.5687, -151.0085) projected
  line L21 (28.5687, -151.0085) -> (28.5687, -144.6585) projected
  line L22 (-22.2313, 26.7915) -> (128.8987, 26.7915)
  line L23 (128.8987, 26.7915) -> (128.8987, -157.3585)
  line L24 (128.8987, -157.3585) -> (-22.2313, -157.3585)
  line L25 (-22.2313, -157.3585) -> (-22.2313, 26.7915)
  line L26 (128.8987, -157.3585) -> (-41.2813, -157.3585)
  line L27 (-41.2813, -157.3585) -> (-41.2813, -144.6585)
  line L28 (-41.2813, -144.6585) -> (128.8987, -144.6585)
  line L29 (128.8987, -144.6585) -> (128.8987, -157.3585)
  point P0 (0, 0)
extrude "Extrusion21" cut sketch "Sketch21" against normal blind 25.4 contours L24 L25 L14 L17 L28 L21 L20 L19 L13 L12 L11 L2 L1 L0 | L1 L2 L3 L23 | L26 L27 L28 L15 L25 | L3 L28 L10 L18 L16 L25 L9 L8 L7 L5 L4 | L15 L16 L17 L14 | L11 L12 L13 L10 | L18 L19 L20 L21
sketch "Sketch22" plane through (0, 0, 6.35) normal (0, 0, 1) x (1, 0, 0)
  line L0 (-22.2313, -144.6585) -> (-22.2313, 26.7915) projected
  line L1 (-22.2313, 26.7915) -> (-41.2813, 26.7915) projected
  line L2 (-41.2813, 26.7915) -> (-41.2813, -144.6585) projected
  line L3 (-22.2313, -144.6585) -> (-41.2813, -144.6585) projected
  circle A0 centre (-34.9313, -138.3085) radius 1.9812 projected
  circle A1 centre (-34.9313, 20.4415) radius 1.9812 projected
  point P0 (0, 0)
extrude "Extrusion22" add sketch "Sketch22" against normal blind 12.7
sketch "Sketch23" plane through (0, 0, 6.35) normal (0, 0, 1) x (1, 0, 0)
  circle A0 centre (-34.9313, -138.3085) radius 1.9812 projected
  circle A1 centre (-34.9313, 20.4415) radius 1.9812 projected
  point P0 (0, 0)
extrude "Extrusion23" add sketch "Sketch23" against normal blind 12.7
sketch "Sketch24" plane through (0, 0, 6.35) normal (0, 0, 1) x (1, 0, 0)
  line L0 (-22.2313, -144.6585) -> (-41.2813, -144.6585) projected
  line L1 (-41.2813, 26.7915) -> (-34.9313, 26.7915)
  line L2 (-34.9313, 26.7915) -> (-34.9313, -144.6585)
  line L3 (-34.9313, -144.6585) -> (-41.2813, -144.6585)
  line L4 (-41.2813, -144.6585) -> (-41.2813, 26.7915)
  point P0 (0, 0)
  dimension "d104" = 6.35
extrude "Extrusion24" cut sketch "Sketch24" against normal blind 12.7
sketch "Sketch25" plane through (-22.2313, 26.7915, 6.35) normal (0, 1, 0) x (1, 0, 0)
  line L0 (-12.7, 12.7) -> (-12.7, 0) projected
  line L1 (0, 0) -> (-12.7, 0) projected
  line L2 (0, 0) -> (0, 12.7) projected
  line L3 (0, 12.7) -> (-12.7, 12.7) projected
  point P0 (22.2313, 6.35)
extrude "Extrusion25" add sketch "Sketch25" along normal blind 12.7
sketch "Sketch26" plane through (-22.2313, -144.6585, -6.35) normal (0, -1, 0) x (1, 0, 0)
  line L0 (-12.7, 12.7) -> (-12.7, 0) projected
  line L1 (-12.7, 0) -> (0, 0) projected
  line L2 (0, 12.7) -> (0, 0) projected
  line L3 (0, 12.7) -> (-12.7, 12.7) projected
  point P0 (22.2313, 6.35)
extrude "Extrusion26" add sketch "Sketch26" along normal blind 6.35
sketch "Sketch27" plane through (-22.2313, 39.4915, 6.35) normal (1, 0, 0) x (0, 0, -1)
  line L0 (0, -190.5) -> (0, 0) projected
  line L1 (0, -190.5) -> (12.7, -190.5) projected
  line L2 (12.7, -190.5) -> (12.7, 0) projected
  line L3 (12.7, 0) -> (0, 0) projected
  point P0 (6.35, -39.4915)
extrude "Extrusion27" add sketch "Sketch27" along normal blind 6.35
sketch "Sketch28" plane through (0, 0, -6.35) normal (0, 0, -1) x (-1, 0, 0)
  line L0 (34.9313, -151.0085) -> (34.9313, 39.4915) projected
  line L1 (15.8813, 39.4915) -> (15.8813, -151.0085) projected
  line L2 (15.8813, -151.0085) -> (34.9313, -151.0085) projected
  line L3 (15.8813, -151.0085) -> (15.8813, -144.6585)
  line L4 (15.8813, -144.6585) -> (34.9313, -144.6585)
  point P0 (0, 0)
  dimension "d113" = 6.35
extrude "Extrusion28" cut sketch "Sketch28" against normal blind 12.7
sketch "Sketch29" plane through (-15.8813, 39.4915, 6.35) normal (1, 0, 0) x (0, 0, -1)
  line L0 (0, -184.15) -> (12.7, -184.15) projected
  line L1 (12.7, 0) -> (12.7, -184.15) projected
  line L2 (0, 0) -> (12.7, 0) projected
  line L3 (0, -184.15) -> (0, 0) projected
  point P0 (6.35, -39.4915)
extrude "Extrusion29" add sketch "Sketch29" along normal blind 6.35
sketch "Sketch30" plane through (-22.2313, 39.4915, 6.35) normal (0, 1, 0) x (1, 0, 0)
  line L0 (-12.7, 12.7) -> (12.7, 12.7) projected
  line L1 (-12.7, 0) -> (-12.7, 12.7) projected
  line L2 (12.7, 0) -> (-12.7, 0) projected
  line L3 (12.7, 0) -> (12.7, 12.7) projected
  point P0 (22.2313, 6.35)
extrude "Extrusion30" add sketch "Sketch30" along normal blind 12.7
sketch "Sketch31" plane through (-22.2313, 52.1915, 6.35) normal (0, 1, 0) x (1, 0, 0)
  line L0 (12.7, 12.7) -> (12.7, 0) projected
  line L1 (-12.7, 12.7) -> (12.7, 12.7) projected
  line L2 (-12.7, 0) -> (-12.7, 12.7) projected
  line L3 (12.7, 0) -> (-12.7, 0) projected
  point P0 (22.2313, 6.35)
extrude "Extrusion31" cut sketch "Sketch31" against normal blind 6.35
sketch "Sketch32" plane through (-22.2313, 45.8415, 6.35) normal (0, 1, 0) x (1, 0, 0)
  line L0 (-12.7, 12.7) -> (12.7, 12.7) projected
  line L1 (-12.7, 0) -> (-12.7, 12.7) projected
  line L2 (12.7, 0) -> (-12.7, 0) projected
  line L3 (12.7, 12.7) -> (12.7, 0) projected
  point P0 (22.2313, 6.35)
extrude "Extrusion32" cut sketch "Sketch32" against normal blind 19.05
properties part number "top-bot connector lame longer"
